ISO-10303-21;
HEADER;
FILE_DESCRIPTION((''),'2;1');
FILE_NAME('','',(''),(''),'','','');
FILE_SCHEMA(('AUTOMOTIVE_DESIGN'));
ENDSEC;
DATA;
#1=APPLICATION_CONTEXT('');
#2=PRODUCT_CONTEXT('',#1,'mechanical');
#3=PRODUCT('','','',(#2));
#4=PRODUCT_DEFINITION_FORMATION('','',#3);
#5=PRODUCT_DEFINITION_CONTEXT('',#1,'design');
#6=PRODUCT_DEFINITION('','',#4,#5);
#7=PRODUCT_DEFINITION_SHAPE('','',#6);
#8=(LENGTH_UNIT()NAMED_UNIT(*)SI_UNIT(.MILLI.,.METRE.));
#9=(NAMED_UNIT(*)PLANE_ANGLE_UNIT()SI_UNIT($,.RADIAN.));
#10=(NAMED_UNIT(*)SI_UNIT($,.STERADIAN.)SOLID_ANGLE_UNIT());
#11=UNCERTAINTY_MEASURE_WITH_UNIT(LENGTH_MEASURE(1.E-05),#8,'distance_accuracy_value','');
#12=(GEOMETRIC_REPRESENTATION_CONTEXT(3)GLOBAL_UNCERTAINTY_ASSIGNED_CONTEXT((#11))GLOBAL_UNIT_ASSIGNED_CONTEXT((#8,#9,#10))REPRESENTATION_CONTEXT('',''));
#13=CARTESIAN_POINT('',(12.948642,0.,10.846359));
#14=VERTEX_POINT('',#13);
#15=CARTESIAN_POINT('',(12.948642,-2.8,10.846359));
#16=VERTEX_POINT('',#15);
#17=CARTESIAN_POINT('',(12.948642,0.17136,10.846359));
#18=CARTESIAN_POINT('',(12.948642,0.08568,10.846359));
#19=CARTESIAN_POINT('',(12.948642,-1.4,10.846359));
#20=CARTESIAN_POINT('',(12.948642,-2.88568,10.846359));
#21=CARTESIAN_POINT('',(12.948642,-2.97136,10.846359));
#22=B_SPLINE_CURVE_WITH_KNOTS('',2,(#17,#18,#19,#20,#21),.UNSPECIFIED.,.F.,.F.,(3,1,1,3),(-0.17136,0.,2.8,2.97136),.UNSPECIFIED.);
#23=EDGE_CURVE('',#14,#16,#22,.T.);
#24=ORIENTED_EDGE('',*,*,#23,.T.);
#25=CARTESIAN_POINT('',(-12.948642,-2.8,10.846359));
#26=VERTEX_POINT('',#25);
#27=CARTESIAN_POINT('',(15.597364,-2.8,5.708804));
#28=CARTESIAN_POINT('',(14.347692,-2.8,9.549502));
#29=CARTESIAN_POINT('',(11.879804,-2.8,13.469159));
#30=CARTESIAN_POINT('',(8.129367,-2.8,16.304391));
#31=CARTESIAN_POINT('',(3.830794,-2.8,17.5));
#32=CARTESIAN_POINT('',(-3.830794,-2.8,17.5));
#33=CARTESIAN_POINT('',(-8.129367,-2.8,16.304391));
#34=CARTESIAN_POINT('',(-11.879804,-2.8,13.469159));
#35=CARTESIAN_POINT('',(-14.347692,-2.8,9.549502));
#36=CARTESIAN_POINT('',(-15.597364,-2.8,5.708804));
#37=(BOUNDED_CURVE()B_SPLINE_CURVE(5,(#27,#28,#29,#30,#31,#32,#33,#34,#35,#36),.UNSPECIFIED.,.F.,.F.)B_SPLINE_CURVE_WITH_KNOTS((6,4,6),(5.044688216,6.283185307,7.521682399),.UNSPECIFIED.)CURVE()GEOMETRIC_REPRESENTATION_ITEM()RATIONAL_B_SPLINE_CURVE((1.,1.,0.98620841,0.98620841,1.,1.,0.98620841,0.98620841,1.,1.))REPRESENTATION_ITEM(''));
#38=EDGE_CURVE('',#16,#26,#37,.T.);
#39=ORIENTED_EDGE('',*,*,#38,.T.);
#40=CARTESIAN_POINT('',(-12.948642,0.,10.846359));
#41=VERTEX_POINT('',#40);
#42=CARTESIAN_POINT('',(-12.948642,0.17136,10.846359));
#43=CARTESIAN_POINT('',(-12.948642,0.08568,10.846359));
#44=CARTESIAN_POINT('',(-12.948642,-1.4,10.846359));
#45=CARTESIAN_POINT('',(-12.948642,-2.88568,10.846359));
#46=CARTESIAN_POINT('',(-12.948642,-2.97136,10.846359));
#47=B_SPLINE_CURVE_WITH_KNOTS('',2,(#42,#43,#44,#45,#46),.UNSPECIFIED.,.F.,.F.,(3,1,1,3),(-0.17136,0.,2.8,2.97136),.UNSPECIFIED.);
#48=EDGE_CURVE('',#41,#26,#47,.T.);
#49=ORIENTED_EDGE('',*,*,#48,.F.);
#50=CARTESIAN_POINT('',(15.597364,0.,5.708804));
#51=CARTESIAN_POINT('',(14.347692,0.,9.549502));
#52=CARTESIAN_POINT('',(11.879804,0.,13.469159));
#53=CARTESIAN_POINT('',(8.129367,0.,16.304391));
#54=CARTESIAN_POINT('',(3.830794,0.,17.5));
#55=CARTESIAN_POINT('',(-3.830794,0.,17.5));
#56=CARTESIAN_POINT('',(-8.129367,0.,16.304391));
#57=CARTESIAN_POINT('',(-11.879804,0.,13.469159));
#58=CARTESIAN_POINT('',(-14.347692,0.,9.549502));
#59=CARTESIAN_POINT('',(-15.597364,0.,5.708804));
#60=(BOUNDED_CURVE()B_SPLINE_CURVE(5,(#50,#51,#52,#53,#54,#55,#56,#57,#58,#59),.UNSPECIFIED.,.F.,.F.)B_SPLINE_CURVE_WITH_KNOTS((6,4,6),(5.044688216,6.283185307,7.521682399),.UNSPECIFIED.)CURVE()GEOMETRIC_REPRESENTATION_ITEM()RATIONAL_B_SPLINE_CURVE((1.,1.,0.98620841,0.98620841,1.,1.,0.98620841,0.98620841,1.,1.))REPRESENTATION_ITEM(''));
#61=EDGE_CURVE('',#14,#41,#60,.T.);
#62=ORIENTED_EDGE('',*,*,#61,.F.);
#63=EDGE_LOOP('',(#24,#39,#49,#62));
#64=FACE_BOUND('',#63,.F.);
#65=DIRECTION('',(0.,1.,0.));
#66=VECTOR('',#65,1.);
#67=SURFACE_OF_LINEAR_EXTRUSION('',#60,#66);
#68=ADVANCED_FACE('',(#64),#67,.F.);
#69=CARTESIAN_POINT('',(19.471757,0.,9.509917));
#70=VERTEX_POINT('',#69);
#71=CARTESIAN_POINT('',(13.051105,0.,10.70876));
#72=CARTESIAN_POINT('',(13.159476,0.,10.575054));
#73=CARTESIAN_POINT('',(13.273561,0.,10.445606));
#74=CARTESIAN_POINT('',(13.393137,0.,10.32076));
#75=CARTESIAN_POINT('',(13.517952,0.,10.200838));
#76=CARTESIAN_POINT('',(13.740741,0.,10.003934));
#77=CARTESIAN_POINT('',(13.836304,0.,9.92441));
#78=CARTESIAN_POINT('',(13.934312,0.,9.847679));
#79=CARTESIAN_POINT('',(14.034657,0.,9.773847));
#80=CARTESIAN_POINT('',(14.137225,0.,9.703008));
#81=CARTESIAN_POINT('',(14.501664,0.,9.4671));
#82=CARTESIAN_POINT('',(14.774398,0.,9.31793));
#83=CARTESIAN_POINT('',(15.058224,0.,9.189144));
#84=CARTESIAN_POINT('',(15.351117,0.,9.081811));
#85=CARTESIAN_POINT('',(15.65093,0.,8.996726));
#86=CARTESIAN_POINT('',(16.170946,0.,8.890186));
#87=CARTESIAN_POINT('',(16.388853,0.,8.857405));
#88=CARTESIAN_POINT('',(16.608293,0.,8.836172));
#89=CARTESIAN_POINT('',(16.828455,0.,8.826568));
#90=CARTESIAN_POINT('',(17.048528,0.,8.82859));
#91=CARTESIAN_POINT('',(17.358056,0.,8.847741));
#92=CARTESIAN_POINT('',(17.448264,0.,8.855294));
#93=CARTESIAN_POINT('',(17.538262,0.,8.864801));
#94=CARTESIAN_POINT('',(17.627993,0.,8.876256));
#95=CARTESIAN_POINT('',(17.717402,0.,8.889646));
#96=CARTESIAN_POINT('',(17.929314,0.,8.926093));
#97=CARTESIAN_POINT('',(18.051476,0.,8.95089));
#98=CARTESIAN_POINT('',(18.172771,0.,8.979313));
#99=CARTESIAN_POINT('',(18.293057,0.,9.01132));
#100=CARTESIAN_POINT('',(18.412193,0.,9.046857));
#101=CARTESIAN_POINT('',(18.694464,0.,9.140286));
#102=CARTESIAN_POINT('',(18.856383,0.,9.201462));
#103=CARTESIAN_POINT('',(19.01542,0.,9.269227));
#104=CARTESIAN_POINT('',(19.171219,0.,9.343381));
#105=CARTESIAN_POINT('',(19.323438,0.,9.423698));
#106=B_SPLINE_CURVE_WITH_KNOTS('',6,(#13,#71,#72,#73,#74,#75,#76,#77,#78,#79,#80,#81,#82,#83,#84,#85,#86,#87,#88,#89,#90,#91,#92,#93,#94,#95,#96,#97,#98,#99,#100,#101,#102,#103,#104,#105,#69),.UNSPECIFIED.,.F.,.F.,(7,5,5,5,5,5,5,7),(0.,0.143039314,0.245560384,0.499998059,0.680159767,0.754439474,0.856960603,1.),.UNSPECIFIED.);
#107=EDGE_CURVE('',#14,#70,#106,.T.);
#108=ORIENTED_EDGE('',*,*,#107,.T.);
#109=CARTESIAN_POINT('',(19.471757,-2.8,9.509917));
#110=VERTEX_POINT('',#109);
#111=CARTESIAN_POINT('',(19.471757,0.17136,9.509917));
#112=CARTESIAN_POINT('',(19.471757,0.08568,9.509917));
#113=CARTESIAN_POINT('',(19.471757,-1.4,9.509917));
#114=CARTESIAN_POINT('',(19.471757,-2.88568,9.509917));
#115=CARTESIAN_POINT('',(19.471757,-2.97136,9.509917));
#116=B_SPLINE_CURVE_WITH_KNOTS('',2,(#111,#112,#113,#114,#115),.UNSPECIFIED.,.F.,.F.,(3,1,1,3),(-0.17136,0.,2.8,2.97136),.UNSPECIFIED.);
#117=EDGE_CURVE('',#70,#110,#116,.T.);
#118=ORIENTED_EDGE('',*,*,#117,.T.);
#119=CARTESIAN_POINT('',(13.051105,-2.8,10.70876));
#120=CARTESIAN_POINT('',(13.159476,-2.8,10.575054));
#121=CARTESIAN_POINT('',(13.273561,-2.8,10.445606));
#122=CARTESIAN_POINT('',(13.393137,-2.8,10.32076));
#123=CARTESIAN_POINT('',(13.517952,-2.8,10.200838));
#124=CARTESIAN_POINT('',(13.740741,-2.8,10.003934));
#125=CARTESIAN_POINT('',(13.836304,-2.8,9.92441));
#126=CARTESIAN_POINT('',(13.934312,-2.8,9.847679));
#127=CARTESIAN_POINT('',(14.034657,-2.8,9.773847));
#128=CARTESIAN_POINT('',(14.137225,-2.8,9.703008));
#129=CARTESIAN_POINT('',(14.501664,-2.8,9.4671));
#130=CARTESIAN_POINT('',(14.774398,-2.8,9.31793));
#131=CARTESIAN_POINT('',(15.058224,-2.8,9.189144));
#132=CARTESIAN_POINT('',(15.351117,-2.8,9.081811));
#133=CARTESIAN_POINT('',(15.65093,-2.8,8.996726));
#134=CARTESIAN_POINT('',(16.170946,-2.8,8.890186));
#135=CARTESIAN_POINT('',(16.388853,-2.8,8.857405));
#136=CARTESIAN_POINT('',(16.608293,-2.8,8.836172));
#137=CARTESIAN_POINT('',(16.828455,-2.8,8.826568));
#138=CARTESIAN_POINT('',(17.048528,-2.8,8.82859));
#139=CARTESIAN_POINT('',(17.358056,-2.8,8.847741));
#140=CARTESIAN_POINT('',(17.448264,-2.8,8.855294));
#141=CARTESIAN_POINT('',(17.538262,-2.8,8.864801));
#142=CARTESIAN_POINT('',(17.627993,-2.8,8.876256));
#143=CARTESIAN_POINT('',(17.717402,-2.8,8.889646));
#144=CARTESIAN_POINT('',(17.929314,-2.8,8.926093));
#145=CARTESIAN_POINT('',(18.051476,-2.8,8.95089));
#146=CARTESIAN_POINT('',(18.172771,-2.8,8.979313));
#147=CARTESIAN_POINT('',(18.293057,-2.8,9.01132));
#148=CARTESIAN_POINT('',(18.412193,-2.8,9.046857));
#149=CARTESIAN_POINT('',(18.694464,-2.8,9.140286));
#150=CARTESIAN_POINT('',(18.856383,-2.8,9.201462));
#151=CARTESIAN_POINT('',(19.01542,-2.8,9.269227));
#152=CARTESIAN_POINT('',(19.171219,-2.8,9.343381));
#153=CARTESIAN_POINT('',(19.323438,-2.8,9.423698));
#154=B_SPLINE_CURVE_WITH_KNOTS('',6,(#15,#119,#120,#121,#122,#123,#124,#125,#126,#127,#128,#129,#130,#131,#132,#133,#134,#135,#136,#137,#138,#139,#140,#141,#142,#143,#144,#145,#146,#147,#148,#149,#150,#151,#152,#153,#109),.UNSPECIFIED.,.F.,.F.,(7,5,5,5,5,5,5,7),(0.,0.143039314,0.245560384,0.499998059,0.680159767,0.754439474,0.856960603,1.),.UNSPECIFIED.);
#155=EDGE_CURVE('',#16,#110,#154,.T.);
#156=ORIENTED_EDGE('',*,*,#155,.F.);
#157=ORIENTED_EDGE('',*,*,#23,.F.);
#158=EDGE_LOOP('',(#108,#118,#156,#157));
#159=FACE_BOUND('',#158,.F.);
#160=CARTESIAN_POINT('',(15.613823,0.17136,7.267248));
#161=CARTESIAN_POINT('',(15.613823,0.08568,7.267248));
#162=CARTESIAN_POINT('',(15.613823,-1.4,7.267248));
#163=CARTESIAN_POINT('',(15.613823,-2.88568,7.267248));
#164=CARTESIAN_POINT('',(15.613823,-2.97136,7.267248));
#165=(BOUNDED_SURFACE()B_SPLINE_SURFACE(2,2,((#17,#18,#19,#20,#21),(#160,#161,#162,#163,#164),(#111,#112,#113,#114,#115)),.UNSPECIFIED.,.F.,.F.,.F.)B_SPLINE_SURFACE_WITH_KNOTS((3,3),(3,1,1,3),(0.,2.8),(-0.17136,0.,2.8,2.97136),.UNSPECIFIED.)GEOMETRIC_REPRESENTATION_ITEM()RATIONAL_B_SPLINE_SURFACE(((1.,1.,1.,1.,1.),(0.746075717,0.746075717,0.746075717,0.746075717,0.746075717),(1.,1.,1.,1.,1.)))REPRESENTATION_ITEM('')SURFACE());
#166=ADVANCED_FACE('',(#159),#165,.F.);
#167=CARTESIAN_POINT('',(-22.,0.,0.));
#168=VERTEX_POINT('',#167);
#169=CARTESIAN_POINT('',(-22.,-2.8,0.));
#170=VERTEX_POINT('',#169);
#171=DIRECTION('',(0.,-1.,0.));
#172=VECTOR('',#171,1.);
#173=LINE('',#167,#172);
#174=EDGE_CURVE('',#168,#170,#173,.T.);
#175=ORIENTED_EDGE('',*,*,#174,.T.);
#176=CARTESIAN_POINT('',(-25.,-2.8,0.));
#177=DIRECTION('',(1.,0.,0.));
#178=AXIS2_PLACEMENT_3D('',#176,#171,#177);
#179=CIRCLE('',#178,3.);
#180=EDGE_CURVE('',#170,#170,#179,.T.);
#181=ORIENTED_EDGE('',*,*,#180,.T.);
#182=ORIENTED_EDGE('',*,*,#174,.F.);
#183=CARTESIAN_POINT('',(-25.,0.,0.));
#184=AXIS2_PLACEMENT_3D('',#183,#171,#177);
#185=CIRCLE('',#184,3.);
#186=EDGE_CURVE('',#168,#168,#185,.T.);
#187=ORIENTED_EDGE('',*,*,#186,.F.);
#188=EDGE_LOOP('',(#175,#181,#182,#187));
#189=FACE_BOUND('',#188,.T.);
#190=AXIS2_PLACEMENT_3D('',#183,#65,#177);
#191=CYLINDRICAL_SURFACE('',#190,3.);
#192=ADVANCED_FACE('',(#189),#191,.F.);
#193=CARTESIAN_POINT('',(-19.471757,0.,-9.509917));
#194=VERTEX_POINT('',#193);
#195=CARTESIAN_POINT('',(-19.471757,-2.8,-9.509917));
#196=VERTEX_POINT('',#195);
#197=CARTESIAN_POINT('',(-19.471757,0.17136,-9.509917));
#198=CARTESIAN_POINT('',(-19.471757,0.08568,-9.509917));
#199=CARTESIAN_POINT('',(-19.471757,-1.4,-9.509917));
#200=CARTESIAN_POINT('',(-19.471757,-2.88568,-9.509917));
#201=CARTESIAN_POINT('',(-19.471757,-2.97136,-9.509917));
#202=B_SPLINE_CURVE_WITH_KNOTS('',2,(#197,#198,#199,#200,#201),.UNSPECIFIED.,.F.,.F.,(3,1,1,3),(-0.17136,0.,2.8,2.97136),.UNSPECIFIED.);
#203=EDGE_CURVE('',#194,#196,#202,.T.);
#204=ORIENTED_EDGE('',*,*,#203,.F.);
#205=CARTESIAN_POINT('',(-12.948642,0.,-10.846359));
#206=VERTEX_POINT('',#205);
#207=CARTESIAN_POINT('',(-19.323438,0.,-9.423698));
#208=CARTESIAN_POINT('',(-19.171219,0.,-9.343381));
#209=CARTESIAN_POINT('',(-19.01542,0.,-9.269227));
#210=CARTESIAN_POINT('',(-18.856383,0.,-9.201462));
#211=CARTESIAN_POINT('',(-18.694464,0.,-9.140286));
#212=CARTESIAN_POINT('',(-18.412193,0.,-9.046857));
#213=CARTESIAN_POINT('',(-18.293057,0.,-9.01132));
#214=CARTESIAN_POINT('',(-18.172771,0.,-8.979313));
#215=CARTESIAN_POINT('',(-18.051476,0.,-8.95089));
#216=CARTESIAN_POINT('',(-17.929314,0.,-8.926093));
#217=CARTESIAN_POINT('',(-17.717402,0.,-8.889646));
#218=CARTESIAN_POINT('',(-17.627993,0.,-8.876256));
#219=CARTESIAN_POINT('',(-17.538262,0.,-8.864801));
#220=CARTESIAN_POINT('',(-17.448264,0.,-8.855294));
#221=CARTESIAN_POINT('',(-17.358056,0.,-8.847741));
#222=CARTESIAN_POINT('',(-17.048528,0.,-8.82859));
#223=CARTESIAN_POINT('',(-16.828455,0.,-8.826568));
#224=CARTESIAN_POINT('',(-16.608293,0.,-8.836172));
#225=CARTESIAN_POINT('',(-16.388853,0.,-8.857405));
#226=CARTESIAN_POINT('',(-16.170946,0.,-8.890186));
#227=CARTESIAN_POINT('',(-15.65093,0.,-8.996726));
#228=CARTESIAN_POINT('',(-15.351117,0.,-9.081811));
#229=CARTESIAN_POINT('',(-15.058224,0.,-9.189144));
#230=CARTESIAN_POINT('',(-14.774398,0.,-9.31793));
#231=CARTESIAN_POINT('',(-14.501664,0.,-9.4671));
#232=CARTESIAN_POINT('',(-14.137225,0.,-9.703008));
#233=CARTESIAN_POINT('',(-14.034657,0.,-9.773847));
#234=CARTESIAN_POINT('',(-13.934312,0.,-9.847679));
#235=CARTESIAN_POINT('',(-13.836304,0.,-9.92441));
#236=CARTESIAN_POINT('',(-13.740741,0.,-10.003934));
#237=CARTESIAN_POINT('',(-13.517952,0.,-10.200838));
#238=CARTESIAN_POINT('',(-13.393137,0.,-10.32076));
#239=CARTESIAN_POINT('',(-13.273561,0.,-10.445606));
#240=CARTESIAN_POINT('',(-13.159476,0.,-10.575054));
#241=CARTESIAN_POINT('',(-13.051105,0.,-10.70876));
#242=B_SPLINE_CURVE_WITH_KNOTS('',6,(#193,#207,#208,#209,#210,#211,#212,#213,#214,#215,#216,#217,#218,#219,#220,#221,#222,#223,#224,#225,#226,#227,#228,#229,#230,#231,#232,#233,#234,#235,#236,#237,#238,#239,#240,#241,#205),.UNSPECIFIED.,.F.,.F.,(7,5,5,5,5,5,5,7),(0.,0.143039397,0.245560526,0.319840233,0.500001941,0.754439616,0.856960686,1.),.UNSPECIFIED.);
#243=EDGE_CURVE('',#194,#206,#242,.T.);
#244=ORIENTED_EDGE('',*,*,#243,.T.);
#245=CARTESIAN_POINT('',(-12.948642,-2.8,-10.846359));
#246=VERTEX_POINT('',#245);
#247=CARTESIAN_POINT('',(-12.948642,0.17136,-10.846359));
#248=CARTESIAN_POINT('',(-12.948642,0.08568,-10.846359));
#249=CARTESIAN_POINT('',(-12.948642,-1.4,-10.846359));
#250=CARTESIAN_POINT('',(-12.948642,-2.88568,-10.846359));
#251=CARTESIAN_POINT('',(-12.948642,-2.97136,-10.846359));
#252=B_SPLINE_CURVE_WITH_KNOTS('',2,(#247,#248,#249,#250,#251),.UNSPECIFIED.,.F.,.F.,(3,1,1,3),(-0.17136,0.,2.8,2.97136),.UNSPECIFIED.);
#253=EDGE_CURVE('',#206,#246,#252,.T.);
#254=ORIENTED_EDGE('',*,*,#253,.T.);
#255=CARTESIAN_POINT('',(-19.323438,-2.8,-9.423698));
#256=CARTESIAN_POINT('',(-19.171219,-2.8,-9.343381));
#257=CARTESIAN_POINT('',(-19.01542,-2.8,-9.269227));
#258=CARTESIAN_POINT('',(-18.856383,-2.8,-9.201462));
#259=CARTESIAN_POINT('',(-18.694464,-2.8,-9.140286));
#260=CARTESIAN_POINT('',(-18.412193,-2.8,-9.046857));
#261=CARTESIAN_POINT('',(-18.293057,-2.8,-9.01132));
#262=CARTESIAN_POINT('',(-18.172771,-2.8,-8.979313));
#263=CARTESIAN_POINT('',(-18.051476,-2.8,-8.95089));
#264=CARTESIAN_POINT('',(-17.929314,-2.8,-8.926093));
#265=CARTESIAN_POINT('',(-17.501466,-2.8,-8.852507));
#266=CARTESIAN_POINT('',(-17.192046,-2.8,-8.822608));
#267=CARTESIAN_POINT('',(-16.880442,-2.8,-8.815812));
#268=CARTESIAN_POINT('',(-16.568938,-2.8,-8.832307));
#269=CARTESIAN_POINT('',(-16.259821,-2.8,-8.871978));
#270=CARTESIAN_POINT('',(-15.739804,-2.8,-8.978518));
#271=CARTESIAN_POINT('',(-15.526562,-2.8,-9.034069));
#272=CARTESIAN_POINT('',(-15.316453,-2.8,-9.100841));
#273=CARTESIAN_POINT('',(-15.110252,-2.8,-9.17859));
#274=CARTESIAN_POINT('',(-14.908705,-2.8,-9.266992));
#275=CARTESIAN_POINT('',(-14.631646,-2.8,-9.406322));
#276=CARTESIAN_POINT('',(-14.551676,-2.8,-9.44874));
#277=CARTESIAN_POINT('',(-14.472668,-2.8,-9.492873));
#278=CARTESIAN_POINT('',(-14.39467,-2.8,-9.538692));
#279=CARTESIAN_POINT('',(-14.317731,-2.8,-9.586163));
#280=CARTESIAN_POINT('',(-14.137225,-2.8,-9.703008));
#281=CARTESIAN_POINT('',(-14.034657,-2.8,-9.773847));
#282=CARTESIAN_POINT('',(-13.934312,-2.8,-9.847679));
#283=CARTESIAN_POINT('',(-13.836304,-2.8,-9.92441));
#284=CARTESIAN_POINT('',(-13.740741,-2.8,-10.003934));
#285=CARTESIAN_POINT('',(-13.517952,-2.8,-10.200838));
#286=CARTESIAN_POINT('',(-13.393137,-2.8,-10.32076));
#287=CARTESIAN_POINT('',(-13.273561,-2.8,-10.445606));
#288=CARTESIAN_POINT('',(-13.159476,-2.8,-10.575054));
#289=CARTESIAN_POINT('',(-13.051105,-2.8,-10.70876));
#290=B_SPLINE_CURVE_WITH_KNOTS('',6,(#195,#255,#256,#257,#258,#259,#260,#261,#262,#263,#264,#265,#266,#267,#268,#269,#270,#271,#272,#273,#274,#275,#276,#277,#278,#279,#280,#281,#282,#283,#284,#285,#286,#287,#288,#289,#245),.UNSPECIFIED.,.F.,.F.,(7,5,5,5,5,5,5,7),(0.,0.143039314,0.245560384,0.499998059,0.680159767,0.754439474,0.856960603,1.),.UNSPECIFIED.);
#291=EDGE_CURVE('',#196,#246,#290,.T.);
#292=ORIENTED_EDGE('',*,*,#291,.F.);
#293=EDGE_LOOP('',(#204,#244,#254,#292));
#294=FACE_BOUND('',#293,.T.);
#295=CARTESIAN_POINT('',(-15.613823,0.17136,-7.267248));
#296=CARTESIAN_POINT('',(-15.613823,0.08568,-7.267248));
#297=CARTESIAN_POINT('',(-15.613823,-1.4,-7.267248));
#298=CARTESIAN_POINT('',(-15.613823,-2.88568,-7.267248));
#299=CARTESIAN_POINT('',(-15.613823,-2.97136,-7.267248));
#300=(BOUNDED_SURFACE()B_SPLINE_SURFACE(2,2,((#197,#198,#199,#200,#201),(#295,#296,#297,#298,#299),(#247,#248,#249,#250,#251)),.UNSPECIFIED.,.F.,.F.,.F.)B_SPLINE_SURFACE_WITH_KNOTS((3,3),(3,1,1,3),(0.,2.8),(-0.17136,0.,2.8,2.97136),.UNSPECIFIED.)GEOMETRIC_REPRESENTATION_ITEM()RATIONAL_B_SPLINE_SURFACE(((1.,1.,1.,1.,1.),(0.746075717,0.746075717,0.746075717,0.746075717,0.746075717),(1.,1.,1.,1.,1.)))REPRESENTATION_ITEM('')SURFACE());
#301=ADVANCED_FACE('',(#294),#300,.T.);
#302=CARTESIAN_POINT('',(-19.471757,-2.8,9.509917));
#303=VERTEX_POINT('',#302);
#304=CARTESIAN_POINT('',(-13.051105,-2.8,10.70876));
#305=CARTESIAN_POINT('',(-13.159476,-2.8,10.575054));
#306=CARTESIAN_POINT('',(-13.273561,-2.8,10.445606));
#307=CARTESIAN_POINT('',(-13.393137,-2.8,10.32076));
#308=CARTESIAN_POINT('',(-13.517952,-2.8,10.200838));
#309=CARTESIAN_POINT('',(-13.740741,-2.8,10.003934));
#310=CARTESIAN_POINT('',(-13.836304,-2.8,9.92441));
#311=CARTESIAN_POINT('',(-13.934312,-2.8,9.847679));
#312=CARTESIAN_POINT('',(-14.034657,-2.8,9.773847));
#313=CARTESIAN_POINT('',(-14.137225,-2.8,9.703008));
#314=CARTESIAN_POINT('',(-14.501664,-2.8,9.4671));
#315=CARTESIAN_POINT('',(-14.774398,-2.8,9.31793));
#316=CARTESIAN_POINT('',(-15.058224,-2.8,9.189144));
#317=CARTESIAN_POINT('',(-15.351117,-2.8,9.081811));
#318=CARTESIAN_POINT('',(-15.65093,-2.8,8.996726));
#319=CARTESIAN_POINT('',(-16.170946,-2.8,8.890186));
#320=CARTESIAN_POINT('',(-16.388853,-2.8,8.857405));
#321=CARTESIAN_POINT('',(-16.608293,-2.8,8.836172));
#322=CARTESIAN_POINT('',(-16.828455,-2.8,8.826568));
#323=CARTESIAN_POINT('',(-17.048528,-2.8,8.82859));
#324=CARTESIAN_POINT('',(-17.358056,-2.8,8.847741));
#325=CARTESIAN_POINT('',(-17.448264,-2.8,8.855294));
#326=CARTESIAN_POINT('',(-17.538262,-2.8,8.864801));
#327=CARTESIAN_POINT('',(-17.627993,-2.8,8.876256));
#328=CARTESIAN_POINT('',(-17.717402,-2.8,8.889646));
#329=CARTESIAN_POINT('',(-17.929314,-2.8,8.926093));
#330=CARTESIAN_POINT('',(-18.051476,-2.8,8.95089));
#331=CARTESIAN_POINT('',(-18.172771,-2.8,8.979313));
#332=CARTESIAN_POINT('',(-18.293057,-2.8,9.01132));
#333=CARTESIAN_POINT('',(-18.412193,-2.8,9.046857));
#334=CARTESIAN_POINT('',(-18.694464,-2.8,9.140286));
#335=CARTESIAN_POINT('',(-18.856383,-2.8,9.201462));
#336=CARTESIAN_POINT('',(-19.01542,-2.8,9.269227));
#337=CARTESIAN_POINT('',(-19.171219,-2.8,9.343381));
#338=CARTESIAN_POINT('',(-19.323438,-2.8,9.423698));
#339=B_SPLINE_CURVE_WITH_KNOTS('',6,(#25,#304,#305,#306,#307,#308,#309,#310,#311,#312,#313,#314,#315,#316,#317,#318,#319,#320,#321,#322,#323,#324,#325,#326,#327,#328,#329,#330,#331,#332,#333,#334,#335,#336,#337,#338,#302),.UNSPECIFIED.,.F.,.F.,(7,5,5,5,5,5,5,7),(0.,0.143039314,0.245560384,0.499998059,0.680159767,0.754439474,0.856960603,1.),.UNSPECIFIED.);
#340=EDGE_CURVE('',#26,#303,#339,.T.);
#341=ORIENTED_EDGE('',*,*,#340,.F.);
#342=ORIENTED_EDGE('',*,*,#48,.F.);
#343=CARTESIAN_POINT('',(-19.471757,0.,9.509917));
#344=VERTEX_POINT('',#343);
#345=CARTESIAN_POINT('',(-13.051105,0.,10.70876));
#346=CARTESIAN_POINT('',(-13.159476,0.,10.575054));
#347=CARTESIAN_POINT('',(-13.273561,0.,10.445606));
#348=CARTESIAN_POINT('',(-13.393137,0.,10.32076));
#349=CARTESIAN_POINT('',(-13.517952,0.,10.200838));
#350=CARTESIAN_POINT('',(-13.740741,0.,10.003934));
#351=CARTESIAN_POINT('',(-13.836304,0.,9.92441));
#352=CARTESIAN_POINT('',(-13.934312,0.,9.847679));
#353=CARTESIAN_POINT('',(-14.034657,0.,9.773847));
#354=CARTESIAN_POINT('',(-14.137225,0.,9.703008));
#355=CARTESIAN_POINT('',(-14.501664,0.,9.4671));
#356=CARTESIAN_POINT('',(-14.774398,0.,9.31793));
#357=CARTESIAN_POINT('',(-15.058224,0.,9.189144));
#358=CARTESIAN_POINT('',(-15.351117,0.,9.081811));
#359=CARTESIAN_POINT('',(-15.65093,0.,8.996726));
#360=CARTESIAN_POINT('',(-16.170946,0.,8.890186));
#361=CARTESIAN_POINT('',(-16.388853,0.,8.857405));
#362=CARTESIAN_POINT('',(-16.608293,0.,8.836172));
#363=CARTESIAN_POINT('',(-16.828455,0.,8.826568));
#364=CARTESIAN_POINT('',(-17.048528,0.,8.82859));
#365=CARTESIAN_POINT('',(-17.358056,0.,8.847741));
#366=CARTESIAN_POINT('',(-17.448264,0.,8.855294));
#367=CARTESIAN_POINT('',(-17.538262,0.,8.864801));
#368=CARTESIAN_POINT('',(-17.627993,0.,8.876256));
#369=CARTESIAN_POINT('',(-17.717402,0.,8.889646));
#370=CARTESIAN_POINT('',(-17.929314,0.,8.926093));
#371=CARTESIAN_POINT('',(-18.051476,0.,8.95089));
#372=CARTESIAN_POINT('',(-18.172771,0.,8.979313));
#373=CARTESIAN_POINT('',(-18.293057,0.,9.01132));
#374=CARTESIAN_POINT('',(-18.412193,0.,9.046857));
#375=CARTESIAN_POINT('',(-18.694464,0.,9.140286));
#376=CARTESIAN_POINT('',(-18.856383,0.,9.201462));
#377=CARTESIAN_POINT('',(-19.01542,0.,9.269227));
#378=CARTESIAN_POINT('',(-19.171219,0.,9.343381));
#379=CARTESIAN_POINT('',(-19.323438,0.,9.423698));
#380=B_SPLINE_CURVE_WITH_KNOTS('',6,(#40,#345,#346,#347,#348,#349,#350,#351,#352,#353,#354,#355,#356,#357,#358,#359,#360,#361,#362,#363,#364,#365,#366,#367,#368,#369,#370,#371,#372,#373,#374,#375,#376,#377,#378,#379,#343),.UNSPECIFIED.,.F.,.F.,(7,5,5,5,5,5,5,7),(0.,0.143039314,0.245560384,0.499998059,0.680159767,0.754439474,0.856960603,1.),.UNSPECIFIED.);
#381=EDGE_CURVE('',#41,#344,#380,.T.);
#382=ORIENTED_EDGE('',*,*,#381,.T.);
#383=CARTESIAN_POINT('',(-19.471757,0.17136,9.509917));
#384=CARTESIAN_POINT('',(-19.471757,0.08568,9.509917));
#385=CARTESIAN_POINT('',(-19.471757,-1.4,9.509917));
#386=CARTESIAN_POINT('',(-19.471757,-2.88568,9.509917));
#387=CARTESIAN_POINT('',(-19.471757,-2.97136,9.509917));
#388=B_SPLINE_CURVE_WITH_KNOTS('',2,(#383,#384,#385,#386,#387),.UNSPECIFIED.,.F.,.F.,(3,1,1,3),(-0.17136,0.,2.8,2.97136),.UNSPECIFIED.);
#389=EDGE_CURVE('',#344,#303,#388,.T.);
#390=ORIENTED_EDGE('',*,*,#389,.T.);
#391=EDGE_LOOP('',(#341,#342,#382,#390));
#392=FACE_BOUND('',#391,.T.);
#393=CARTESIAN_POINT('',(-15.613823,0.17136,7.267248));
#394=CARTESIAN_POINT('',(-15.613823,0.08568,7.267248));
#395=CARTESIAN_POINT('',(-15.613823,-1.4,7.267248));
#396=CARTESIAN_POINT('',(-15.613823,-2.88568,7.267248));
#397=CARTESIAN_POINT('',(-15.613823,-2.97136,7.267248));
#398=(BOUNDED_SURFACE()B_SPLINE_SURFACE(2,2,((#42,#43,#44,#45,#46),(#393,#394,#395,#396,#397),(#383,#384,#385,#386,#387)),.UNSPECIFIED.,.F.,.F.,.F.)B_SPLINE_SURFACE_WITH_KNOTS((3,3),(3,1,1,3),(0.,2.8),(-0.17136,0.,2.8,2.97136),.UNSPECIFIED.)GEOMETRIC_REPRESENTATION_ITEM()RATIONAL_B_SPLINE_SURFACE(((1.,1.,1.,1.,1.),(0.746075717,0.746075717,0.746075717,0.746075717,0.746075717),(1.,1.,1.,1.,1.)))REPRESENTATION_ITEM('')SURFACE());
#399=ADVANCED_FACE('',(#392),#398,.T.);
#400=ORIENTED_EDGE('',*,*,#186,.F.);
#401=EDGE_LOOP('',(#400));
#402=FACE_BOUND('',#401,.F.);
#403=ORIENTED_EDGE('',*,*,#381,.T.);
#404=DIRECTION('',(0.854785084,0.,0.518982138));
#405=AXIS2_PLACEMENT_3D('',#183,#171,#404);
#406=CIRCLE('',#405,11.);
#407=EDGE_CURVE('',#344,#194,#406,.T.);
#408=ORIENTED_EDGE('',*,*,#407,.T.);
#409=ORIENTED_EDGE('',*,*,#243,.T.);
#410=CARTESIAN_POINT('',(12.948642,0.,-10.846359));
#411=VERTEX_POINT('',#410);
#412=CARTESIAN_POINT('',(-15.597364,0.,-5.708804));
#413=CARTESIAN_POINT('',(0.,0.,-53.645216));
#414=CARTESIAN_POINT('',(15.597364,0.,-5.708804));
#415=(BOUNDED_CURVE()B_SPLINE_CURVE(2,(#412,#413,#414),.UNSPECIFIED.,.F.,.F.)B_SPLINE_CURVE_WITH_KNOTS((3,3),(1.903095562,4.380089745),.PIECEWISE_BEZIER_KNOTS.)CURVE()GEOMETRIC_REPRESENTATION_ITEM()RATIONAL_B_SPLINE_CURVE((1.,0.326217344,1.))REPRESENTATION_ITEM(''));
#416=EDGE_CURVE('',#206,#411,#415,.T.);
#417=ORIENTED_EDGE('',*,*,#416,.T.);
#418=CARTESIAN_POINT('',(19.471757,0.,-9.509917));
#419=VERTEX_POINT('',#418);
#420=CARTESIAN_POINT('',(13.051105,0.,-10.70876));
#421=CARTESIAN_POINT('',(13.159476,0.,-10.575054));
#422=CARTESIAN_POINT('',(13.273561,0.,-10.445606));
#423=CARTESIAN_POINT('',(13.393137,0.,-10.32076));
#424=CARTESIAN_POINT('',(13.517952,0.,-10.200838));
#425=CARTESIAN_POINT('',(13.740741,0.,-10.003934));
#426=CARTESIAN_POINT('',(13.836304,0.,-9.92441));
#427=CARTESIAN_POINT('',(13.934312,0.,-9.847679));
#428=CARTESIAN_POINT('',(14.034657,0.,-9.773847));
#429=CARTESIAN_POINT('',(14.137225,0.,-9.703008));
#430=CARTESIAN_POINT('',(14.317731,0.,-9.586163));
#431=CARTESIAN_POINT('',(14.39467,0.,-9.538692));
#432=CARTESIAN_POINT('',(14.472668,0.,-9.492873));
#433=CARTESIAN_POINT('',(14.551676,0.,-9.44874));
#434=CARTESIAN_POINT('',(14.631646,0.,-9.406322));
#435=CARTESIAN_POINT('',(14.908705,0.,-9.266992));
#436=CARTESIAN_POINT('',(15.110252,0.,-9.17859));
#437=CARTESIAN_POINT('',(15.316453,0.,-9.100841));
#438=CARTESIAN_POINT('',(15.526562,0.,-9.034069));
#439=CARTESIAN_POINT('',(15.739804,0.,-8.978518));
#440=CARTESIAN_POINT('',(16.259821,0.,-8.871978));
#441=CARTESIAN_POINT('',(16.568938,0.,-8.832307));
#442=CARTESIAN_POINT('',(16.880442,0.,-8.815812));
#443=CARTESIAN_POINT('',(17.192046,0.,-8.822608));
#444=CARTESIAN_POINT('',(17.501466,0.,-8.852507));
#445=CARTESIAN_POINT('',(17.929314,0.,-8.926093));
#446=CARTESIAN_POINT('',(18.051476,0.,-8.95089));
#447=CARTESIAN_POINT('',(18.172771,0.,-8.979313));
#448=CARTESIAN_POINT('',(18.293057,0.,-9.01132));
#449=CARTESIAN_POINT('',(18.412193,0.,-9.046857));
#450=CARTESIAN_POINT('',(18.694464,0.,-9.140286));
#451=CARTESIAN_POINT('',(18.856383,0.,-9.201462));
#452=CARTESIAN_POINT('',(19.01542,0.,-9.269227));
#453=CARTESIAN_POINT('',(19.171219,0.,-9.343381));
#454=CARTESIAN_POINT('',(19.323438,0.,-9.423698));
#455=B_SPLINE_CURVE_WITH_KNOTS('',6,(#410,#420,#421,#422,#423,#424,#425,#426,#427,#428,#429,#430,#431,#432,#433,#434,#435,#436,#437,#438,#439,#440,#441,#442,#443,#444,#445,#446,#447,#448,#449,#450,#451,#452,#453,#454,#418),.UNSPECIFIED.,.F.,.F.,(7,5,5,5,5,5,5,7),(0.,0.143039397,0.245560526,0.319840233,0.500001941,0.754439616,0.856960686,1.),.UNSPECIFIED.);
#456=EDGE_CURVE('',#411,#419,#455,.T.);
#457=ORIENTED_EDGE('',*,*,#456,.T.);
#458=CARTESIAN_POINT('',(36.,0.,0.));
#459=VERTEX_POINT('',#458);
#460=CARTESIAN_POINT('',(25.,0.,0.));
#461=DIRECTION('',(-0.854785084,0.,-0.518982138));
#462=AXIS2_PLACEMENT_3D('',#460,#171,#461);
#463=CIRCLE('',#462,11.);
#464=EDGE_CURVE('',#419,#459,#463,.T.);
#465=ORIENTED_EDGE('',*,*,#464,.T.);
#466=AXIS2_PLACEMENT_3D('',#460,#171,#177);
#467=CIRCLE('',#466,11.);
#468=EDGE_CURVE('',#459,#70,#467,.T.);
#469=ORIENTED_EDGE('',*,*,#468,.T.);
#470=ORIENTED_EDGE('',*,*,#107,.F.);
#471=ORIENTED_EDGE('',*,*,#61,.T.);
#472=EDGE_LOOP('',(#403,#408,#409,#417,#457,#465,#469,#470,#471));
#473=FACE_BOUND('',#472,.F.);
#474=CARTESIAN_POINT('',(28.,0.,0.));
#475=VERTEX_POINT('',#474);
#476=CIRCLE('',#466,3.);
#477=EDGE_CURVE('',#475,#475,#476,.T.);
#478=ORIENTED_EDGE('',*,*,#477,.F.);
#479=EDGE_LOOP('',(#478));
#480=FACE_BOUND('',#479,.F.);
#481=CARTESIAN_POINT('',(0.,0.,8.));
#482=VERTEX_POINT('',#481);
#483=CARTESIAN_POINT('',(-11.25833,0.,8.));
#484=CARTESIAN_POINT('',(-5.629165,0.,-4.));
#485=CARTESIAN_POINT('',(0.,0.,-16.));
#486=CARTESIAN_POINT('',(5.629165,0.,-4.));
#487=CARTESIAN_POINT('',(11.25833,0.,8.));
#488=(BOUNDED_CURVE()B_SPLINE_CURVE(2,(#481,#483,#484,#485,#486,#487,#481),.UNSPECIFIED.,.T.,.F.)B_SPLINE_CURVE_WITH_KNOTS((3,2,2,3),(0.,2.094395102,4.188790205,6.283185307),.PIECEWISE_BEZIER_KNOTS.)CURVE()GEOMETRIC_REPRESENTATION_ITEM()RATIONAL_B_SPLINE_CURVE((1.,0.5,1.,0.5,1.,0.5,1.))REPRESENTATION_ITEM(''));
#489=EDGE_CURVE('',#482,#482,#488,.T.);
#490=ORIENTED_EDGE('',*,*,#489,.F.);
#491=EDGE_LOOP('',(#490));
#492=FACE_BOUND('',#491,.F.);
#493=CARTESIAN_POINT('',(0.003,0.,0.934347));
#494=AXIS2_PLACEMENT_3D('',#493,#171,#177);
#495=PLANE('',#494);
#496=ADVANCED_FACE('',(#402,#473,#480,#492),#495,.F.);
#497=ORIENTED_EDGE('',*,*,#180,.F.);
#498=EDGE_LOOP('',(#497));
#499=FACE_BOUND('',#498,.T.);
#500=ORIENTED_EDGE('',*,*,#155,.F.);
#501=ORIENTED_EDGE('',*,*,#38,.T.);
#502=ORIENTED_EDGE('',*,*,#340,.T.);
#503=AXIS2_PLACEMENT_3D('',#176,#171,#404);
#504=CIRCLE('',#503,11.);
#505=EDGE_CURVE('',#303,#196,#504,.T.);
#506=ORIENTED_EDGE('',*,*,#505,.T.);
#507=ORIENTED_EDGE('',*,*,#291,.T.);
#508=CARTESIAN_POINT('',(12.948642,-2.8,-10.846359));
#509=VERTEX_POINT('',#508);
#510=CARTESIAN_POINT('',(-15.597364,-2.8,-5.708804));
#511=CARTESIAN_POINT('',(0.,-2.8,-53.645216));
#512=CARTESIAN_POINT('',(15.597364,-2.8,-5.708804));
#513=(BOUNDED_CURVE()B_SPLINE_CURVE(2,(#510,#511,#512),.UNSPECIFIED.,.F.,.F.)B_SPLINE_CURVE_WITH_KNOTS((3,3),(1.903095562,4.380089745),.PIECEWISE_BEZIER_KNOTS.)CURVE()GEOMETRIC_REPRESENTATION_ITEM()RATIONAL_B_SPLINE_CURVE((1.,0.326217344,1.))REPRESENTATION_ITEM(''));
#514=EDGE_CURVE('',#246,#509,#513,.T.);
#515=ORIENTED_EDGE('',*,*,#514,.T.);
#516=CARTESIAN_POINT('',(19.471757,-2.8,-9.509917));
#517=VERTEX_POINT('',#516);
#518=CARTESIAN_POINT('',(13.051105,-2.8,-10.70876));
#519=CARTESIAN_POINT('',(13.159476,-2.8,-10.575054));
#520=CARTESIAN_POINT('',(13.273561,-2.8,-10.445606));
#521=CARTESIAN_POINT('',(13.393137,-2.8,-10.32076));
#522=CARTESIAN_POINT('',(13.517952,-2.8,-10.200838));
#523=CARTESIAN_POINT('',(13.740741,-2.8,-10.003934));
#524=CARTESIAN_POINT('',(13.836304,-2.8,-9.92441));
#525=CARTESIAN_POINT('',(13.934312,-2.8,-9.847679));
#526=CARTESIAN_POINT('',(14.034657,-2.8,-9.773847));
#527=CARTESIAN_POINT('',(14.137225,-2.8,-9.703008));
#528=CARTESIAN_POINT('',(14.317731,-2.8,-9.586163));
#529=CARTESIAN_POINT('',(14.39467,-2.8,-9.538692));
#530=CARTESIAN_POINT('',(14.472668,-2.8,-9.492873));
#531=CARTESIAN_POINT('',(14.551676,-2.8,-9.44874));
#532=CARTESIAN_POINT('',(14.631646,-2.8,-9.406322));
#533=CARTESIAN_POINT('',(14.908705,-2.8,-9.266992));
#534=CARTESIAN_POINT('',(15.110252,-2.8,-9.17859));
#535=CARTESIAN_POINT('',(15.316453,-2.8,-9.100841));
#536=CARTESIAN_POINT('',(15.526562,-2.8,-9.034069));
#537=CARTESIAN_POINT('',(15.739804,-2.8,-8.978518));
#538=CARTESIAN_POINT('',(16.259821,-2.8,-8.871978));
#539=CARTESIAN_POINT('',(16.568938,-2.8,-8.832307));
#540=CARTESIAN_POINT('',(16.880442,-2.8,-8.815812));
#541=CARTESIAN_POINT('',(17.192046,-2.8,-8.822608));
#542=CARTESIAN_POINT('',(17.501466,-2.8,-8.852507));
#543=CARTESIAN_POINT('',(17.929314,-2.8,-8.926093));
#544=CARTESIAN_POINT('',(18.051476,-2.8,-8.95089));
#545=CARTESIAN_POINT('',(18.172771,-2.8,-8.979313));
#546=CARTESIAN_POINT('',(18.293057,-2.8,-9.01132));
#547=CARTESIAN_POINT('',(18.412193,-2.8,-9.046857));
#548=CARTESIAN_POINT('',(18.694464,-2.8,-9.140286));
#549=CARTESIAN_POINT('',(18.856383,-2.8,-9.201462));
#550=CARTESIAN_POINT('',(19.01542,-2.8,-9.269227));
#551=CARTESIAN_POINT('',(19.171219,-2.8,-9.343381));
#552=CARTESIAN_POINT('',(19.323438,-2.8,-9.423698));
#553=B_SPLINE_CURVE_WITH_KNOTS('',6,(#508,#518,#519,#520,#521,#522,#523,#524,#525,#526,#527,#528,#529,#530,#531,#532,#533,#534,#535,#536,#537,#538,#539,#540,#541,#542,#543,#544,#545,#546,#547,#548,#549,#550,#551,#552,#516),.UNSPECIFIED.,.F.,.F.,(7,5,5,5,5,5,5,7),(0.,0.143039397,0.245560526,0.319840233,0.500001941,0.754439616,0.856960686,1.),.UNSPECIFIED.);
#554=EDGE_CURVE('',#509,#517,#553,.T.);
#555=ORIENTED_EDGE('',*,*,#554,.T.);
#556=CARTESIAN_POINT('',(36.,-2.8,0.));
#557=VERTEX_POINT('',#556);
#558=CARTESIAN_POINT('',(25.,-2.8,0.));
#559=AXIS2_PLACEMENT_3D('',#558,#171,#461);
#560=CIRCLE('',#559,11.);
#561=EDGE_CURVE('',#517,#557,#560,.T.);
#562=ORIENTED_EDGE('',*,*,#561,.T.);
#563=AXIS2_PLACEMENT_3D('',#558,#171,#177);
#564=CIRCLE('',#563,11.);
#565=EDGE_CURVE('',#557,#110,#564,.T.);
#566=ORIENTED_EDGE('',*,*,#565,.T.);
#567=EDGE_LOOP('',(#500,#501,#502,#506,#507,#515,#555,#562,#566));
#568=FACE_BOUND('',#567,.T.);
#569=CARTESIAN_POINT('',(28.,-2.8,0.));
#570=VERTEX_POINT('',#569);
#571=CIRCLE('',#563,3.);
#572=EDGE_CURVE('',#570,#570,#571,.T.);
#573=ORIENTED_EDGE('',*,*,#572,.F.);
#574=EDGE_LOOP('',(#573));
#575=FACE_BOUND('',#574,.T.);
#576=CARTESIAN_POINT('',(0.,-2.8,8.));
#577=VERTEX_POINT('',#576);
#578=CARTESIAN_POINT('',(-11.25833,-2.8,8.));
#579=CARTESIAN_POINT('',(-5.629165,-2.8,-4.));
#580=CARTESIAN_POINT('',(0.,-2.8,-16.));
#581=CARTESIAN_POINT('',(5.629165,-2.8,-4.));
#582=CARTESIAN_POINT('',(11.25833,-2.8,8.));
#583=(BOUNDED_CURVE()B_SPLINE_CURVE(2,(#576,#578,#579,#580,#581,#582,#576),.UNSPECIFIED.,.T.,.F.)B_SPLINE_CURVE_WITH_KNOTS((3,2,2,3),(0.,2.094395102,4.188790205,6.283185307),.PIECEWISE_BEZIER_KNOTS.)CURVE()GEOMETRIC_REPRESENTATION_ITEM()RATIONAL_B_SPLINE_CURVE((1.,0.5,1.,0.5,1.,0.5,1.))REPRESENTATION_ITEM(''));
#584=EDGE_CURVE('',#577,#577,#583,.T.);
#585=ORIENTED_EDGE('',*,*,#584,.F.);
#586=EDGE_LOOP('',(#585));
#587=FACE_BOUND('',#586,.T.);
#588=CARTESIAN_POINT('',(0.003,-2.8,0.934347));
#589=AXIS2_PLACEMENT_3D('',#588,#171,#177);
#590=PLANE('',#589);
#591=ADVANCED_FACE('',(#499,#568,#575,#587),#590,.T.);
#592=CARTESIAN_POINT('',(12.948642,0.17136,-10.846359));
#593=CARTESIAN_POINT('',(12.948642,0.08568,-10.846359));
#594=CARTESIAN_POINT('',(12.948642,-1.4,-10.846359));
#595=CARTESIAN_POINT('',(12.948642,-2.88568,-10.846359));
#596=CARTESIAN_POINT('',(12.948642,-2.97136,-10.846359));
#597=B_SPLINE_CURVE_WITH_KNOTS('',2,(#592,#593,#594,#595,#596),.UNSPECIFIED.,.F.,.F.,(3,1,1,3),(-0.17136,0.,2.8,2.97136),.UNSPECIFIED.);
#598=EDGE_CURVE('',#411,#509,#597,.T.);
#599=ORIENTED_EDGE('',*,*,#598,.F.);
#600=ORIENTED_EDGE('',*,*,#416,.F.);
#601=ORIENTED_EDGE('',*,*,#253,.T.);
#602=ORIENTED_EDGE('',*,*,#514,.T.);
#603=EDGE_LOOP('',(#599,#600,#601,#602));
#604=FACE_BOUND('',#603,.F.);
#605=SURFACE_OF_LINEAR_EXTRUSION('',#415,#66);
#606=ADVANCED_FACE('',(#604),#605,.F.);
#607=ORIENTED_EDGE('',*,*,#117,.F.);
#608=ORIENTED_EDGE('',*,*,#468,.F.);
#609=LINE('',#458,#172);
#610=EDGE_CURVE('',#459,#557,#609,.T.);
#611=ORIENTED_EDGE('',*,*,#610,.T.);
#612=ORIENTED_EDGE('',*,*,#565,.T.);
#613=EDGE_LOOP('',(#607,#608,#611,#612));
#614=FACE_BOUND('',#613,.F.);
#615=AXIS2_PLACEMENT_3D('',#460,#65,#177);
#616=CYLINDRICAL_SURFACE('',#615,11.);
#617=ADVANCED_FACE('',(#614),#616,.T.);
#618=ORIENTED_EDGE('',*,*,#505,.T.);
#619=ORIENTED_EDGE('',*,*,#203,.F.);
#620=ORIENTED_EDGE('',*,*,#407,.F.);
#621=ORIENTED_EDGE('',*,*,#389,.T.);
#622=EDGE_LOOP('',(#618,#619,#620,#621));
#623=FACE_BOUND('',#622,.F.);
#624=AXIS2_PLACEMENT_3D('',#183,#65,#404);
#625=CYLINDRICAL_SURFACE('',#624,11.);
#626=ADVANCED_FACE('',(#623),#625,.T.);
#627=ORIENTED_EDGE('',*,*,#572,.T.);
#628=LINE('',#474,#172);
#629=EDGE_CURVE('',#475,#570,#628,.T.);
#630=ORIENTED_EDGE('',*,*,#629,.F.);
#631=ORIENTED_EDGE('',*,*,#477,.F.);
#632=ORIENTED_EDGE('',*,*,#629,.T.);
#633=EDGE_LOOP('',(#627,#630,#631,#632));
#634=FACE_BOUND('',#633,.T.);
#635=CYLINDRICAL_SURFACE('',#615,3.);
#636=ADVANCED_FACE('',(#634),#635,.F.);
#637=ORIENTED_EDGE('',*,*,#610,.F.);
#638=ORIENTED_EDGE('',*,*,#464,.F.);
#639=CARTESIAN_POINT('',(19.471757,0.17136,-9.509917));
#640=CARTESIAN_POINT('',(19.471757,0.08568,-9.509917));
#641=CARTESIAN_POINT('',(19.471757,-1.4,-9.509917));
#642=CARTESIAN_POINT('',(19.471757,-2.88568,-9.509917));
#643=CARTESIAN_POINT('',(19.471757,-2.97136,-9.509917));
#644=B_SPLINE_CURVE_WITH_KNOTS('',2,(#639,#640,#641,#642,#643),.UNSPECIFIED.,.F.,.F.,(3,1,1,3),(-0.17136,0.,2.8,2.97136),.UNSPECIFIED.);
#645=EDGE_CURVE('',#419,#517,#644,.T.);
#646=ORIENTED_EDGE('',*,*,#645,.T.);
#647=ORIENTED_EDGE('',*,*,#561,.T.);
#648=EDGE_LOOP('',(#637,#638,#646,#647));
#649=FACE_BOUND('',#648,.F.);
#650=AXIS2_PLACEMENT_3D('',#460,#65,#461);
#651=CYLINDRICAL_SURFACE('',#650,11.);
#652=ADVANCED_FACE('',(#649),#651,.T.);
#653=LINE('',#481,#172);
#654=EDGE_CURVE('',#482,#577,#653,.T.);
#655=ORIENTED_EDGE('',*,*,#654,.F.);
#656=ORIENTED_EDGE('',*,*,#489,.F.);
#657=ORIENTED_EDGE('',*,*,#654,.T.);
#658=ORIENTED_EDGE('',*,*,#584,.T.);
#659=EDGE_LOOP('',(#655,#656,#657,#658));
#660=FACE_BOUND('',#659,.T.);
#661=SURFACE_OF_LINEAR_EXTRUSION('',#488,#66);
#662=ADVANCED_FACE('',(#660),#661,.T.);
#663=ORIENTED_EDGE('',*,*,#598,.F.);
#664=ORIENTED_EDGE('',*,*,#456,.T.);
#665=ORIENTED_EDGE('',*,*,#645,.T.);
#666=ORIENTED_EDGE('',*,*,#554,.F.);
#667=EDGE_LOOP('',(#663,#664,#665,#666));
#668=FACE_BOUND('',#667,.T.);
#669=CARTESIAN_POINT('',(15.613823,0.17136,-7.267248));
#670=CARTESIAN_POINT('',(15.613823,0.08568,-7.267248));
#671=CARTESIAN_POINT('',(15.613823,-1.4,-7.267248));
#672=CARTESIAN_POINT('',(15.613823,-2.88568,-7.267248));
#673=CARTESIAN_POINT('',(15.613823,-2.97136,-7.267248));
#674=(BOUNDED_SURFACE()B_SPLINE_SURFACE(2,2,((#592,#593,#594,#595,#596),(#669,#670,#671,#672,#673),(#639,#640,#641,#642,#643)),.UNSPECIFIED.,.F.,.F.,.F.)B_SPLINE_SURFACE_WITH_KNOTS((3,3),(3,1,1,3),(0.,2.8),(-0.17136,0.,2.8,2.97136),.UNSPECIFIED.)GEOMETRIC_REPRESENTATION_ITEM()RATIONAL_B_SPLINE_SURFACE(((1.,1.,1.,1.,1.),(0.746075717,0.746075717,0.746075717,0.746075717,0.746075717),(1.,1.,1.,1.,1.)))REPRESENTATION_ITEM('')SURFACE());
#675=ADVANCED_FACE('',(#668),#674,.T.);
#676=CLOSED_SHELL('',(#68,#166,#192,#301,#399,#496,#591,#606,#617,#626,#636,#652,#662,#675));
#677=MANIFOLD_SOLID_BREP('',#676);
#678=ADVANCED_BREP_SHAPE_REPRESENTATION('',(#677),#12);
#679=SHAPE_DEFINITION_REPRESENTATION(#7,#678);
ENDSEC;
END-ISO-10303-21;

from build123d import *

# Parameters (mm, degrees)
F0_R     = 3
F1_DEPTH = 2.8
F2_R     = 5


with BuildPart() as f1:
    # F0 (on Front) → F1 (new body)
    with BuildSketch(Plane.XZ):
        with BuildLine():
            add(Edge.make_bspline(
                [(15.5973640738, 5.7088035208), (11.7607902987, 17.5), (0, 17.5)],
                knots=[5.0446882158, 5.0446882158, 5.0446882158, 6.2831853072, 6.2831853072, 6.2831853072], degree=2, weights=[1, 0.8143148482, 1]))
            add(Edge.make_bspline(
                [(0, 17.5), (-11.7607902987, 17.5), (-15.5973640738, 5.7088035208)],
                knots=[0, 0, 0, 1.2384970913, 1.2384970913, 1.2384970913], degree=2, weights=[1, 0.8143148482, 1]))
            ThreePointArc((-15.5973640738, 5.7088035208), (-14.4068655444, 2.9640348186), (-14, 0))
            ThreePointArc((-14, 0), (-14.4068655444, -2.9640348186), (-15.5973640738, -5.7088035208))
            add(Edge.make_bspline(
                [(-15.5973640738, -5.7088035208), (0, -53.6452163549), (15.5973640738, -5.7088035208)],
                knots=[1.9030955622, 1.9030955622, 1.9030955622, 4.3800897449, 4.3800897449, 4.3800897449], degree=2, weights=[1, 0.326217344, 1]))
            ThreePointArc((15.5973640738, -5.7088035208), (14, 0), (15.5973640738, 5.7088035208))
        make_face()
        with BuildLine():
            add(Edge.make_bspline(
                [(0, 8), (-11.2583302492, 8), (-5.6291651246, -4), (0, -16), (5.6291651246, -4), (11.2583302492, 8), (0, 8)],
                knots=[0, 0, 0, 2.0943951024, 2.0943951024, 4.1887902048, 4.1887902048, 6.2831853072, 6.2831853072, 6.2831853072], degree=2, weights=[1, 0.5, 1, 0.5, 1, 0.5, 1]))
        make_face(mode=Mode.SUBTRACT)
        with BuildLine():
            ThreePointArc((-14, 0), (-14.4068655444, 2.9640348186), (-15.5973640738, 5.7088035208))
            add(Edge.make_bspline(
                [(-15.5973640738, 5.7088035208), (-17.4548724203, 0), (-15.5973640738, -5.7088035208)],
                knots=[1.2384970913, 1.2384970913, 1.2384970913, 1.9030955622, 1.9030955622, 1.9030955622], degree=2, weights=[1, 0.9452947924, 1]))
            ThreePointArc((-15.5973640738, -5.7088035208), (-14.4068655444, -2.9640348186), (-14, 0))
        make_face()
        with BuildLine():
            add(Edge.make_bspline(
                [(-15.5973640738, 5.7088035208), (-17.4548724203, 0), (-15.5973640738, -5.7088035208)],
                knots=[1.2384970913, 1.2384970913, 1.2384970913, 1.9030955622, 1.9030955622, 1.9030955622], degree=2, weights=[1, 0.9452947924, 1]))
            ThreePointArc((-15.5973640738, 5.7088035208), (-36, 0), (-15.5973640738, -5.7088035208))
        make_face()
        with Locations((-25, 0)):
            Circle(F0_R, mode=Mode.SUBTRACT)
        with BuildLine():
            ThreePointArc((36, 0), (27.9640348186, 10.5931344556), (15.5973640738, 5.7088035208))
            add(Edge.make_bspline(
                [(15.5973640738, -5.7088035208), (17.4548724203, 0), (15.5973640738, 5.7088035208)],
                knots=[4.3800897449, 4.3800897449, 4.3800897449, 5.0446882158, 5.0446882158, 5.0446882158], degree=2, weights=[1, 0.9452947924, 1]))
            ThreePointArc((15.5973640738, -5.7088035208), (27.9640348186, -10.5931344556), (36, 0))
        make_face()
        with Locations((25, 0)):
            Circle(F0_R, mode=Mode.SUBTRACT)
        with BuildLine():
            add(Edge.make_bspline(
                [(15.5973640738, -5.7088035208), (17.4548724203, 0), (15.5973640738, 5.7088035208)],
                knots=[4.3800897449, 4.3800897449, 4.3800897449, 5.0446882158, 5.0446882158, 5.0446882158], degree=2, weights=[1, 0.9452947924, 1]))
            ThreePointArc((15.5973640738, 5.7088035208), (14, 0), (15.5973640738, -5.7088035208))
        make_face()
    extrude(amount=F1_DEPTH)

    # F2
    f2_edges = [f1.edges().sort_by_distance(p)[0] for p in [
        (-15.597364, -1.4, 5.708804),
        (15.597364, -1.4, -5.708804),
        (15.597364, -1.4, 5.708804),
        (-15.597364, -1.4, -5.708804),
    ]]
    fillet(f2_edges, radius=F2_R)


solid = f1.part
